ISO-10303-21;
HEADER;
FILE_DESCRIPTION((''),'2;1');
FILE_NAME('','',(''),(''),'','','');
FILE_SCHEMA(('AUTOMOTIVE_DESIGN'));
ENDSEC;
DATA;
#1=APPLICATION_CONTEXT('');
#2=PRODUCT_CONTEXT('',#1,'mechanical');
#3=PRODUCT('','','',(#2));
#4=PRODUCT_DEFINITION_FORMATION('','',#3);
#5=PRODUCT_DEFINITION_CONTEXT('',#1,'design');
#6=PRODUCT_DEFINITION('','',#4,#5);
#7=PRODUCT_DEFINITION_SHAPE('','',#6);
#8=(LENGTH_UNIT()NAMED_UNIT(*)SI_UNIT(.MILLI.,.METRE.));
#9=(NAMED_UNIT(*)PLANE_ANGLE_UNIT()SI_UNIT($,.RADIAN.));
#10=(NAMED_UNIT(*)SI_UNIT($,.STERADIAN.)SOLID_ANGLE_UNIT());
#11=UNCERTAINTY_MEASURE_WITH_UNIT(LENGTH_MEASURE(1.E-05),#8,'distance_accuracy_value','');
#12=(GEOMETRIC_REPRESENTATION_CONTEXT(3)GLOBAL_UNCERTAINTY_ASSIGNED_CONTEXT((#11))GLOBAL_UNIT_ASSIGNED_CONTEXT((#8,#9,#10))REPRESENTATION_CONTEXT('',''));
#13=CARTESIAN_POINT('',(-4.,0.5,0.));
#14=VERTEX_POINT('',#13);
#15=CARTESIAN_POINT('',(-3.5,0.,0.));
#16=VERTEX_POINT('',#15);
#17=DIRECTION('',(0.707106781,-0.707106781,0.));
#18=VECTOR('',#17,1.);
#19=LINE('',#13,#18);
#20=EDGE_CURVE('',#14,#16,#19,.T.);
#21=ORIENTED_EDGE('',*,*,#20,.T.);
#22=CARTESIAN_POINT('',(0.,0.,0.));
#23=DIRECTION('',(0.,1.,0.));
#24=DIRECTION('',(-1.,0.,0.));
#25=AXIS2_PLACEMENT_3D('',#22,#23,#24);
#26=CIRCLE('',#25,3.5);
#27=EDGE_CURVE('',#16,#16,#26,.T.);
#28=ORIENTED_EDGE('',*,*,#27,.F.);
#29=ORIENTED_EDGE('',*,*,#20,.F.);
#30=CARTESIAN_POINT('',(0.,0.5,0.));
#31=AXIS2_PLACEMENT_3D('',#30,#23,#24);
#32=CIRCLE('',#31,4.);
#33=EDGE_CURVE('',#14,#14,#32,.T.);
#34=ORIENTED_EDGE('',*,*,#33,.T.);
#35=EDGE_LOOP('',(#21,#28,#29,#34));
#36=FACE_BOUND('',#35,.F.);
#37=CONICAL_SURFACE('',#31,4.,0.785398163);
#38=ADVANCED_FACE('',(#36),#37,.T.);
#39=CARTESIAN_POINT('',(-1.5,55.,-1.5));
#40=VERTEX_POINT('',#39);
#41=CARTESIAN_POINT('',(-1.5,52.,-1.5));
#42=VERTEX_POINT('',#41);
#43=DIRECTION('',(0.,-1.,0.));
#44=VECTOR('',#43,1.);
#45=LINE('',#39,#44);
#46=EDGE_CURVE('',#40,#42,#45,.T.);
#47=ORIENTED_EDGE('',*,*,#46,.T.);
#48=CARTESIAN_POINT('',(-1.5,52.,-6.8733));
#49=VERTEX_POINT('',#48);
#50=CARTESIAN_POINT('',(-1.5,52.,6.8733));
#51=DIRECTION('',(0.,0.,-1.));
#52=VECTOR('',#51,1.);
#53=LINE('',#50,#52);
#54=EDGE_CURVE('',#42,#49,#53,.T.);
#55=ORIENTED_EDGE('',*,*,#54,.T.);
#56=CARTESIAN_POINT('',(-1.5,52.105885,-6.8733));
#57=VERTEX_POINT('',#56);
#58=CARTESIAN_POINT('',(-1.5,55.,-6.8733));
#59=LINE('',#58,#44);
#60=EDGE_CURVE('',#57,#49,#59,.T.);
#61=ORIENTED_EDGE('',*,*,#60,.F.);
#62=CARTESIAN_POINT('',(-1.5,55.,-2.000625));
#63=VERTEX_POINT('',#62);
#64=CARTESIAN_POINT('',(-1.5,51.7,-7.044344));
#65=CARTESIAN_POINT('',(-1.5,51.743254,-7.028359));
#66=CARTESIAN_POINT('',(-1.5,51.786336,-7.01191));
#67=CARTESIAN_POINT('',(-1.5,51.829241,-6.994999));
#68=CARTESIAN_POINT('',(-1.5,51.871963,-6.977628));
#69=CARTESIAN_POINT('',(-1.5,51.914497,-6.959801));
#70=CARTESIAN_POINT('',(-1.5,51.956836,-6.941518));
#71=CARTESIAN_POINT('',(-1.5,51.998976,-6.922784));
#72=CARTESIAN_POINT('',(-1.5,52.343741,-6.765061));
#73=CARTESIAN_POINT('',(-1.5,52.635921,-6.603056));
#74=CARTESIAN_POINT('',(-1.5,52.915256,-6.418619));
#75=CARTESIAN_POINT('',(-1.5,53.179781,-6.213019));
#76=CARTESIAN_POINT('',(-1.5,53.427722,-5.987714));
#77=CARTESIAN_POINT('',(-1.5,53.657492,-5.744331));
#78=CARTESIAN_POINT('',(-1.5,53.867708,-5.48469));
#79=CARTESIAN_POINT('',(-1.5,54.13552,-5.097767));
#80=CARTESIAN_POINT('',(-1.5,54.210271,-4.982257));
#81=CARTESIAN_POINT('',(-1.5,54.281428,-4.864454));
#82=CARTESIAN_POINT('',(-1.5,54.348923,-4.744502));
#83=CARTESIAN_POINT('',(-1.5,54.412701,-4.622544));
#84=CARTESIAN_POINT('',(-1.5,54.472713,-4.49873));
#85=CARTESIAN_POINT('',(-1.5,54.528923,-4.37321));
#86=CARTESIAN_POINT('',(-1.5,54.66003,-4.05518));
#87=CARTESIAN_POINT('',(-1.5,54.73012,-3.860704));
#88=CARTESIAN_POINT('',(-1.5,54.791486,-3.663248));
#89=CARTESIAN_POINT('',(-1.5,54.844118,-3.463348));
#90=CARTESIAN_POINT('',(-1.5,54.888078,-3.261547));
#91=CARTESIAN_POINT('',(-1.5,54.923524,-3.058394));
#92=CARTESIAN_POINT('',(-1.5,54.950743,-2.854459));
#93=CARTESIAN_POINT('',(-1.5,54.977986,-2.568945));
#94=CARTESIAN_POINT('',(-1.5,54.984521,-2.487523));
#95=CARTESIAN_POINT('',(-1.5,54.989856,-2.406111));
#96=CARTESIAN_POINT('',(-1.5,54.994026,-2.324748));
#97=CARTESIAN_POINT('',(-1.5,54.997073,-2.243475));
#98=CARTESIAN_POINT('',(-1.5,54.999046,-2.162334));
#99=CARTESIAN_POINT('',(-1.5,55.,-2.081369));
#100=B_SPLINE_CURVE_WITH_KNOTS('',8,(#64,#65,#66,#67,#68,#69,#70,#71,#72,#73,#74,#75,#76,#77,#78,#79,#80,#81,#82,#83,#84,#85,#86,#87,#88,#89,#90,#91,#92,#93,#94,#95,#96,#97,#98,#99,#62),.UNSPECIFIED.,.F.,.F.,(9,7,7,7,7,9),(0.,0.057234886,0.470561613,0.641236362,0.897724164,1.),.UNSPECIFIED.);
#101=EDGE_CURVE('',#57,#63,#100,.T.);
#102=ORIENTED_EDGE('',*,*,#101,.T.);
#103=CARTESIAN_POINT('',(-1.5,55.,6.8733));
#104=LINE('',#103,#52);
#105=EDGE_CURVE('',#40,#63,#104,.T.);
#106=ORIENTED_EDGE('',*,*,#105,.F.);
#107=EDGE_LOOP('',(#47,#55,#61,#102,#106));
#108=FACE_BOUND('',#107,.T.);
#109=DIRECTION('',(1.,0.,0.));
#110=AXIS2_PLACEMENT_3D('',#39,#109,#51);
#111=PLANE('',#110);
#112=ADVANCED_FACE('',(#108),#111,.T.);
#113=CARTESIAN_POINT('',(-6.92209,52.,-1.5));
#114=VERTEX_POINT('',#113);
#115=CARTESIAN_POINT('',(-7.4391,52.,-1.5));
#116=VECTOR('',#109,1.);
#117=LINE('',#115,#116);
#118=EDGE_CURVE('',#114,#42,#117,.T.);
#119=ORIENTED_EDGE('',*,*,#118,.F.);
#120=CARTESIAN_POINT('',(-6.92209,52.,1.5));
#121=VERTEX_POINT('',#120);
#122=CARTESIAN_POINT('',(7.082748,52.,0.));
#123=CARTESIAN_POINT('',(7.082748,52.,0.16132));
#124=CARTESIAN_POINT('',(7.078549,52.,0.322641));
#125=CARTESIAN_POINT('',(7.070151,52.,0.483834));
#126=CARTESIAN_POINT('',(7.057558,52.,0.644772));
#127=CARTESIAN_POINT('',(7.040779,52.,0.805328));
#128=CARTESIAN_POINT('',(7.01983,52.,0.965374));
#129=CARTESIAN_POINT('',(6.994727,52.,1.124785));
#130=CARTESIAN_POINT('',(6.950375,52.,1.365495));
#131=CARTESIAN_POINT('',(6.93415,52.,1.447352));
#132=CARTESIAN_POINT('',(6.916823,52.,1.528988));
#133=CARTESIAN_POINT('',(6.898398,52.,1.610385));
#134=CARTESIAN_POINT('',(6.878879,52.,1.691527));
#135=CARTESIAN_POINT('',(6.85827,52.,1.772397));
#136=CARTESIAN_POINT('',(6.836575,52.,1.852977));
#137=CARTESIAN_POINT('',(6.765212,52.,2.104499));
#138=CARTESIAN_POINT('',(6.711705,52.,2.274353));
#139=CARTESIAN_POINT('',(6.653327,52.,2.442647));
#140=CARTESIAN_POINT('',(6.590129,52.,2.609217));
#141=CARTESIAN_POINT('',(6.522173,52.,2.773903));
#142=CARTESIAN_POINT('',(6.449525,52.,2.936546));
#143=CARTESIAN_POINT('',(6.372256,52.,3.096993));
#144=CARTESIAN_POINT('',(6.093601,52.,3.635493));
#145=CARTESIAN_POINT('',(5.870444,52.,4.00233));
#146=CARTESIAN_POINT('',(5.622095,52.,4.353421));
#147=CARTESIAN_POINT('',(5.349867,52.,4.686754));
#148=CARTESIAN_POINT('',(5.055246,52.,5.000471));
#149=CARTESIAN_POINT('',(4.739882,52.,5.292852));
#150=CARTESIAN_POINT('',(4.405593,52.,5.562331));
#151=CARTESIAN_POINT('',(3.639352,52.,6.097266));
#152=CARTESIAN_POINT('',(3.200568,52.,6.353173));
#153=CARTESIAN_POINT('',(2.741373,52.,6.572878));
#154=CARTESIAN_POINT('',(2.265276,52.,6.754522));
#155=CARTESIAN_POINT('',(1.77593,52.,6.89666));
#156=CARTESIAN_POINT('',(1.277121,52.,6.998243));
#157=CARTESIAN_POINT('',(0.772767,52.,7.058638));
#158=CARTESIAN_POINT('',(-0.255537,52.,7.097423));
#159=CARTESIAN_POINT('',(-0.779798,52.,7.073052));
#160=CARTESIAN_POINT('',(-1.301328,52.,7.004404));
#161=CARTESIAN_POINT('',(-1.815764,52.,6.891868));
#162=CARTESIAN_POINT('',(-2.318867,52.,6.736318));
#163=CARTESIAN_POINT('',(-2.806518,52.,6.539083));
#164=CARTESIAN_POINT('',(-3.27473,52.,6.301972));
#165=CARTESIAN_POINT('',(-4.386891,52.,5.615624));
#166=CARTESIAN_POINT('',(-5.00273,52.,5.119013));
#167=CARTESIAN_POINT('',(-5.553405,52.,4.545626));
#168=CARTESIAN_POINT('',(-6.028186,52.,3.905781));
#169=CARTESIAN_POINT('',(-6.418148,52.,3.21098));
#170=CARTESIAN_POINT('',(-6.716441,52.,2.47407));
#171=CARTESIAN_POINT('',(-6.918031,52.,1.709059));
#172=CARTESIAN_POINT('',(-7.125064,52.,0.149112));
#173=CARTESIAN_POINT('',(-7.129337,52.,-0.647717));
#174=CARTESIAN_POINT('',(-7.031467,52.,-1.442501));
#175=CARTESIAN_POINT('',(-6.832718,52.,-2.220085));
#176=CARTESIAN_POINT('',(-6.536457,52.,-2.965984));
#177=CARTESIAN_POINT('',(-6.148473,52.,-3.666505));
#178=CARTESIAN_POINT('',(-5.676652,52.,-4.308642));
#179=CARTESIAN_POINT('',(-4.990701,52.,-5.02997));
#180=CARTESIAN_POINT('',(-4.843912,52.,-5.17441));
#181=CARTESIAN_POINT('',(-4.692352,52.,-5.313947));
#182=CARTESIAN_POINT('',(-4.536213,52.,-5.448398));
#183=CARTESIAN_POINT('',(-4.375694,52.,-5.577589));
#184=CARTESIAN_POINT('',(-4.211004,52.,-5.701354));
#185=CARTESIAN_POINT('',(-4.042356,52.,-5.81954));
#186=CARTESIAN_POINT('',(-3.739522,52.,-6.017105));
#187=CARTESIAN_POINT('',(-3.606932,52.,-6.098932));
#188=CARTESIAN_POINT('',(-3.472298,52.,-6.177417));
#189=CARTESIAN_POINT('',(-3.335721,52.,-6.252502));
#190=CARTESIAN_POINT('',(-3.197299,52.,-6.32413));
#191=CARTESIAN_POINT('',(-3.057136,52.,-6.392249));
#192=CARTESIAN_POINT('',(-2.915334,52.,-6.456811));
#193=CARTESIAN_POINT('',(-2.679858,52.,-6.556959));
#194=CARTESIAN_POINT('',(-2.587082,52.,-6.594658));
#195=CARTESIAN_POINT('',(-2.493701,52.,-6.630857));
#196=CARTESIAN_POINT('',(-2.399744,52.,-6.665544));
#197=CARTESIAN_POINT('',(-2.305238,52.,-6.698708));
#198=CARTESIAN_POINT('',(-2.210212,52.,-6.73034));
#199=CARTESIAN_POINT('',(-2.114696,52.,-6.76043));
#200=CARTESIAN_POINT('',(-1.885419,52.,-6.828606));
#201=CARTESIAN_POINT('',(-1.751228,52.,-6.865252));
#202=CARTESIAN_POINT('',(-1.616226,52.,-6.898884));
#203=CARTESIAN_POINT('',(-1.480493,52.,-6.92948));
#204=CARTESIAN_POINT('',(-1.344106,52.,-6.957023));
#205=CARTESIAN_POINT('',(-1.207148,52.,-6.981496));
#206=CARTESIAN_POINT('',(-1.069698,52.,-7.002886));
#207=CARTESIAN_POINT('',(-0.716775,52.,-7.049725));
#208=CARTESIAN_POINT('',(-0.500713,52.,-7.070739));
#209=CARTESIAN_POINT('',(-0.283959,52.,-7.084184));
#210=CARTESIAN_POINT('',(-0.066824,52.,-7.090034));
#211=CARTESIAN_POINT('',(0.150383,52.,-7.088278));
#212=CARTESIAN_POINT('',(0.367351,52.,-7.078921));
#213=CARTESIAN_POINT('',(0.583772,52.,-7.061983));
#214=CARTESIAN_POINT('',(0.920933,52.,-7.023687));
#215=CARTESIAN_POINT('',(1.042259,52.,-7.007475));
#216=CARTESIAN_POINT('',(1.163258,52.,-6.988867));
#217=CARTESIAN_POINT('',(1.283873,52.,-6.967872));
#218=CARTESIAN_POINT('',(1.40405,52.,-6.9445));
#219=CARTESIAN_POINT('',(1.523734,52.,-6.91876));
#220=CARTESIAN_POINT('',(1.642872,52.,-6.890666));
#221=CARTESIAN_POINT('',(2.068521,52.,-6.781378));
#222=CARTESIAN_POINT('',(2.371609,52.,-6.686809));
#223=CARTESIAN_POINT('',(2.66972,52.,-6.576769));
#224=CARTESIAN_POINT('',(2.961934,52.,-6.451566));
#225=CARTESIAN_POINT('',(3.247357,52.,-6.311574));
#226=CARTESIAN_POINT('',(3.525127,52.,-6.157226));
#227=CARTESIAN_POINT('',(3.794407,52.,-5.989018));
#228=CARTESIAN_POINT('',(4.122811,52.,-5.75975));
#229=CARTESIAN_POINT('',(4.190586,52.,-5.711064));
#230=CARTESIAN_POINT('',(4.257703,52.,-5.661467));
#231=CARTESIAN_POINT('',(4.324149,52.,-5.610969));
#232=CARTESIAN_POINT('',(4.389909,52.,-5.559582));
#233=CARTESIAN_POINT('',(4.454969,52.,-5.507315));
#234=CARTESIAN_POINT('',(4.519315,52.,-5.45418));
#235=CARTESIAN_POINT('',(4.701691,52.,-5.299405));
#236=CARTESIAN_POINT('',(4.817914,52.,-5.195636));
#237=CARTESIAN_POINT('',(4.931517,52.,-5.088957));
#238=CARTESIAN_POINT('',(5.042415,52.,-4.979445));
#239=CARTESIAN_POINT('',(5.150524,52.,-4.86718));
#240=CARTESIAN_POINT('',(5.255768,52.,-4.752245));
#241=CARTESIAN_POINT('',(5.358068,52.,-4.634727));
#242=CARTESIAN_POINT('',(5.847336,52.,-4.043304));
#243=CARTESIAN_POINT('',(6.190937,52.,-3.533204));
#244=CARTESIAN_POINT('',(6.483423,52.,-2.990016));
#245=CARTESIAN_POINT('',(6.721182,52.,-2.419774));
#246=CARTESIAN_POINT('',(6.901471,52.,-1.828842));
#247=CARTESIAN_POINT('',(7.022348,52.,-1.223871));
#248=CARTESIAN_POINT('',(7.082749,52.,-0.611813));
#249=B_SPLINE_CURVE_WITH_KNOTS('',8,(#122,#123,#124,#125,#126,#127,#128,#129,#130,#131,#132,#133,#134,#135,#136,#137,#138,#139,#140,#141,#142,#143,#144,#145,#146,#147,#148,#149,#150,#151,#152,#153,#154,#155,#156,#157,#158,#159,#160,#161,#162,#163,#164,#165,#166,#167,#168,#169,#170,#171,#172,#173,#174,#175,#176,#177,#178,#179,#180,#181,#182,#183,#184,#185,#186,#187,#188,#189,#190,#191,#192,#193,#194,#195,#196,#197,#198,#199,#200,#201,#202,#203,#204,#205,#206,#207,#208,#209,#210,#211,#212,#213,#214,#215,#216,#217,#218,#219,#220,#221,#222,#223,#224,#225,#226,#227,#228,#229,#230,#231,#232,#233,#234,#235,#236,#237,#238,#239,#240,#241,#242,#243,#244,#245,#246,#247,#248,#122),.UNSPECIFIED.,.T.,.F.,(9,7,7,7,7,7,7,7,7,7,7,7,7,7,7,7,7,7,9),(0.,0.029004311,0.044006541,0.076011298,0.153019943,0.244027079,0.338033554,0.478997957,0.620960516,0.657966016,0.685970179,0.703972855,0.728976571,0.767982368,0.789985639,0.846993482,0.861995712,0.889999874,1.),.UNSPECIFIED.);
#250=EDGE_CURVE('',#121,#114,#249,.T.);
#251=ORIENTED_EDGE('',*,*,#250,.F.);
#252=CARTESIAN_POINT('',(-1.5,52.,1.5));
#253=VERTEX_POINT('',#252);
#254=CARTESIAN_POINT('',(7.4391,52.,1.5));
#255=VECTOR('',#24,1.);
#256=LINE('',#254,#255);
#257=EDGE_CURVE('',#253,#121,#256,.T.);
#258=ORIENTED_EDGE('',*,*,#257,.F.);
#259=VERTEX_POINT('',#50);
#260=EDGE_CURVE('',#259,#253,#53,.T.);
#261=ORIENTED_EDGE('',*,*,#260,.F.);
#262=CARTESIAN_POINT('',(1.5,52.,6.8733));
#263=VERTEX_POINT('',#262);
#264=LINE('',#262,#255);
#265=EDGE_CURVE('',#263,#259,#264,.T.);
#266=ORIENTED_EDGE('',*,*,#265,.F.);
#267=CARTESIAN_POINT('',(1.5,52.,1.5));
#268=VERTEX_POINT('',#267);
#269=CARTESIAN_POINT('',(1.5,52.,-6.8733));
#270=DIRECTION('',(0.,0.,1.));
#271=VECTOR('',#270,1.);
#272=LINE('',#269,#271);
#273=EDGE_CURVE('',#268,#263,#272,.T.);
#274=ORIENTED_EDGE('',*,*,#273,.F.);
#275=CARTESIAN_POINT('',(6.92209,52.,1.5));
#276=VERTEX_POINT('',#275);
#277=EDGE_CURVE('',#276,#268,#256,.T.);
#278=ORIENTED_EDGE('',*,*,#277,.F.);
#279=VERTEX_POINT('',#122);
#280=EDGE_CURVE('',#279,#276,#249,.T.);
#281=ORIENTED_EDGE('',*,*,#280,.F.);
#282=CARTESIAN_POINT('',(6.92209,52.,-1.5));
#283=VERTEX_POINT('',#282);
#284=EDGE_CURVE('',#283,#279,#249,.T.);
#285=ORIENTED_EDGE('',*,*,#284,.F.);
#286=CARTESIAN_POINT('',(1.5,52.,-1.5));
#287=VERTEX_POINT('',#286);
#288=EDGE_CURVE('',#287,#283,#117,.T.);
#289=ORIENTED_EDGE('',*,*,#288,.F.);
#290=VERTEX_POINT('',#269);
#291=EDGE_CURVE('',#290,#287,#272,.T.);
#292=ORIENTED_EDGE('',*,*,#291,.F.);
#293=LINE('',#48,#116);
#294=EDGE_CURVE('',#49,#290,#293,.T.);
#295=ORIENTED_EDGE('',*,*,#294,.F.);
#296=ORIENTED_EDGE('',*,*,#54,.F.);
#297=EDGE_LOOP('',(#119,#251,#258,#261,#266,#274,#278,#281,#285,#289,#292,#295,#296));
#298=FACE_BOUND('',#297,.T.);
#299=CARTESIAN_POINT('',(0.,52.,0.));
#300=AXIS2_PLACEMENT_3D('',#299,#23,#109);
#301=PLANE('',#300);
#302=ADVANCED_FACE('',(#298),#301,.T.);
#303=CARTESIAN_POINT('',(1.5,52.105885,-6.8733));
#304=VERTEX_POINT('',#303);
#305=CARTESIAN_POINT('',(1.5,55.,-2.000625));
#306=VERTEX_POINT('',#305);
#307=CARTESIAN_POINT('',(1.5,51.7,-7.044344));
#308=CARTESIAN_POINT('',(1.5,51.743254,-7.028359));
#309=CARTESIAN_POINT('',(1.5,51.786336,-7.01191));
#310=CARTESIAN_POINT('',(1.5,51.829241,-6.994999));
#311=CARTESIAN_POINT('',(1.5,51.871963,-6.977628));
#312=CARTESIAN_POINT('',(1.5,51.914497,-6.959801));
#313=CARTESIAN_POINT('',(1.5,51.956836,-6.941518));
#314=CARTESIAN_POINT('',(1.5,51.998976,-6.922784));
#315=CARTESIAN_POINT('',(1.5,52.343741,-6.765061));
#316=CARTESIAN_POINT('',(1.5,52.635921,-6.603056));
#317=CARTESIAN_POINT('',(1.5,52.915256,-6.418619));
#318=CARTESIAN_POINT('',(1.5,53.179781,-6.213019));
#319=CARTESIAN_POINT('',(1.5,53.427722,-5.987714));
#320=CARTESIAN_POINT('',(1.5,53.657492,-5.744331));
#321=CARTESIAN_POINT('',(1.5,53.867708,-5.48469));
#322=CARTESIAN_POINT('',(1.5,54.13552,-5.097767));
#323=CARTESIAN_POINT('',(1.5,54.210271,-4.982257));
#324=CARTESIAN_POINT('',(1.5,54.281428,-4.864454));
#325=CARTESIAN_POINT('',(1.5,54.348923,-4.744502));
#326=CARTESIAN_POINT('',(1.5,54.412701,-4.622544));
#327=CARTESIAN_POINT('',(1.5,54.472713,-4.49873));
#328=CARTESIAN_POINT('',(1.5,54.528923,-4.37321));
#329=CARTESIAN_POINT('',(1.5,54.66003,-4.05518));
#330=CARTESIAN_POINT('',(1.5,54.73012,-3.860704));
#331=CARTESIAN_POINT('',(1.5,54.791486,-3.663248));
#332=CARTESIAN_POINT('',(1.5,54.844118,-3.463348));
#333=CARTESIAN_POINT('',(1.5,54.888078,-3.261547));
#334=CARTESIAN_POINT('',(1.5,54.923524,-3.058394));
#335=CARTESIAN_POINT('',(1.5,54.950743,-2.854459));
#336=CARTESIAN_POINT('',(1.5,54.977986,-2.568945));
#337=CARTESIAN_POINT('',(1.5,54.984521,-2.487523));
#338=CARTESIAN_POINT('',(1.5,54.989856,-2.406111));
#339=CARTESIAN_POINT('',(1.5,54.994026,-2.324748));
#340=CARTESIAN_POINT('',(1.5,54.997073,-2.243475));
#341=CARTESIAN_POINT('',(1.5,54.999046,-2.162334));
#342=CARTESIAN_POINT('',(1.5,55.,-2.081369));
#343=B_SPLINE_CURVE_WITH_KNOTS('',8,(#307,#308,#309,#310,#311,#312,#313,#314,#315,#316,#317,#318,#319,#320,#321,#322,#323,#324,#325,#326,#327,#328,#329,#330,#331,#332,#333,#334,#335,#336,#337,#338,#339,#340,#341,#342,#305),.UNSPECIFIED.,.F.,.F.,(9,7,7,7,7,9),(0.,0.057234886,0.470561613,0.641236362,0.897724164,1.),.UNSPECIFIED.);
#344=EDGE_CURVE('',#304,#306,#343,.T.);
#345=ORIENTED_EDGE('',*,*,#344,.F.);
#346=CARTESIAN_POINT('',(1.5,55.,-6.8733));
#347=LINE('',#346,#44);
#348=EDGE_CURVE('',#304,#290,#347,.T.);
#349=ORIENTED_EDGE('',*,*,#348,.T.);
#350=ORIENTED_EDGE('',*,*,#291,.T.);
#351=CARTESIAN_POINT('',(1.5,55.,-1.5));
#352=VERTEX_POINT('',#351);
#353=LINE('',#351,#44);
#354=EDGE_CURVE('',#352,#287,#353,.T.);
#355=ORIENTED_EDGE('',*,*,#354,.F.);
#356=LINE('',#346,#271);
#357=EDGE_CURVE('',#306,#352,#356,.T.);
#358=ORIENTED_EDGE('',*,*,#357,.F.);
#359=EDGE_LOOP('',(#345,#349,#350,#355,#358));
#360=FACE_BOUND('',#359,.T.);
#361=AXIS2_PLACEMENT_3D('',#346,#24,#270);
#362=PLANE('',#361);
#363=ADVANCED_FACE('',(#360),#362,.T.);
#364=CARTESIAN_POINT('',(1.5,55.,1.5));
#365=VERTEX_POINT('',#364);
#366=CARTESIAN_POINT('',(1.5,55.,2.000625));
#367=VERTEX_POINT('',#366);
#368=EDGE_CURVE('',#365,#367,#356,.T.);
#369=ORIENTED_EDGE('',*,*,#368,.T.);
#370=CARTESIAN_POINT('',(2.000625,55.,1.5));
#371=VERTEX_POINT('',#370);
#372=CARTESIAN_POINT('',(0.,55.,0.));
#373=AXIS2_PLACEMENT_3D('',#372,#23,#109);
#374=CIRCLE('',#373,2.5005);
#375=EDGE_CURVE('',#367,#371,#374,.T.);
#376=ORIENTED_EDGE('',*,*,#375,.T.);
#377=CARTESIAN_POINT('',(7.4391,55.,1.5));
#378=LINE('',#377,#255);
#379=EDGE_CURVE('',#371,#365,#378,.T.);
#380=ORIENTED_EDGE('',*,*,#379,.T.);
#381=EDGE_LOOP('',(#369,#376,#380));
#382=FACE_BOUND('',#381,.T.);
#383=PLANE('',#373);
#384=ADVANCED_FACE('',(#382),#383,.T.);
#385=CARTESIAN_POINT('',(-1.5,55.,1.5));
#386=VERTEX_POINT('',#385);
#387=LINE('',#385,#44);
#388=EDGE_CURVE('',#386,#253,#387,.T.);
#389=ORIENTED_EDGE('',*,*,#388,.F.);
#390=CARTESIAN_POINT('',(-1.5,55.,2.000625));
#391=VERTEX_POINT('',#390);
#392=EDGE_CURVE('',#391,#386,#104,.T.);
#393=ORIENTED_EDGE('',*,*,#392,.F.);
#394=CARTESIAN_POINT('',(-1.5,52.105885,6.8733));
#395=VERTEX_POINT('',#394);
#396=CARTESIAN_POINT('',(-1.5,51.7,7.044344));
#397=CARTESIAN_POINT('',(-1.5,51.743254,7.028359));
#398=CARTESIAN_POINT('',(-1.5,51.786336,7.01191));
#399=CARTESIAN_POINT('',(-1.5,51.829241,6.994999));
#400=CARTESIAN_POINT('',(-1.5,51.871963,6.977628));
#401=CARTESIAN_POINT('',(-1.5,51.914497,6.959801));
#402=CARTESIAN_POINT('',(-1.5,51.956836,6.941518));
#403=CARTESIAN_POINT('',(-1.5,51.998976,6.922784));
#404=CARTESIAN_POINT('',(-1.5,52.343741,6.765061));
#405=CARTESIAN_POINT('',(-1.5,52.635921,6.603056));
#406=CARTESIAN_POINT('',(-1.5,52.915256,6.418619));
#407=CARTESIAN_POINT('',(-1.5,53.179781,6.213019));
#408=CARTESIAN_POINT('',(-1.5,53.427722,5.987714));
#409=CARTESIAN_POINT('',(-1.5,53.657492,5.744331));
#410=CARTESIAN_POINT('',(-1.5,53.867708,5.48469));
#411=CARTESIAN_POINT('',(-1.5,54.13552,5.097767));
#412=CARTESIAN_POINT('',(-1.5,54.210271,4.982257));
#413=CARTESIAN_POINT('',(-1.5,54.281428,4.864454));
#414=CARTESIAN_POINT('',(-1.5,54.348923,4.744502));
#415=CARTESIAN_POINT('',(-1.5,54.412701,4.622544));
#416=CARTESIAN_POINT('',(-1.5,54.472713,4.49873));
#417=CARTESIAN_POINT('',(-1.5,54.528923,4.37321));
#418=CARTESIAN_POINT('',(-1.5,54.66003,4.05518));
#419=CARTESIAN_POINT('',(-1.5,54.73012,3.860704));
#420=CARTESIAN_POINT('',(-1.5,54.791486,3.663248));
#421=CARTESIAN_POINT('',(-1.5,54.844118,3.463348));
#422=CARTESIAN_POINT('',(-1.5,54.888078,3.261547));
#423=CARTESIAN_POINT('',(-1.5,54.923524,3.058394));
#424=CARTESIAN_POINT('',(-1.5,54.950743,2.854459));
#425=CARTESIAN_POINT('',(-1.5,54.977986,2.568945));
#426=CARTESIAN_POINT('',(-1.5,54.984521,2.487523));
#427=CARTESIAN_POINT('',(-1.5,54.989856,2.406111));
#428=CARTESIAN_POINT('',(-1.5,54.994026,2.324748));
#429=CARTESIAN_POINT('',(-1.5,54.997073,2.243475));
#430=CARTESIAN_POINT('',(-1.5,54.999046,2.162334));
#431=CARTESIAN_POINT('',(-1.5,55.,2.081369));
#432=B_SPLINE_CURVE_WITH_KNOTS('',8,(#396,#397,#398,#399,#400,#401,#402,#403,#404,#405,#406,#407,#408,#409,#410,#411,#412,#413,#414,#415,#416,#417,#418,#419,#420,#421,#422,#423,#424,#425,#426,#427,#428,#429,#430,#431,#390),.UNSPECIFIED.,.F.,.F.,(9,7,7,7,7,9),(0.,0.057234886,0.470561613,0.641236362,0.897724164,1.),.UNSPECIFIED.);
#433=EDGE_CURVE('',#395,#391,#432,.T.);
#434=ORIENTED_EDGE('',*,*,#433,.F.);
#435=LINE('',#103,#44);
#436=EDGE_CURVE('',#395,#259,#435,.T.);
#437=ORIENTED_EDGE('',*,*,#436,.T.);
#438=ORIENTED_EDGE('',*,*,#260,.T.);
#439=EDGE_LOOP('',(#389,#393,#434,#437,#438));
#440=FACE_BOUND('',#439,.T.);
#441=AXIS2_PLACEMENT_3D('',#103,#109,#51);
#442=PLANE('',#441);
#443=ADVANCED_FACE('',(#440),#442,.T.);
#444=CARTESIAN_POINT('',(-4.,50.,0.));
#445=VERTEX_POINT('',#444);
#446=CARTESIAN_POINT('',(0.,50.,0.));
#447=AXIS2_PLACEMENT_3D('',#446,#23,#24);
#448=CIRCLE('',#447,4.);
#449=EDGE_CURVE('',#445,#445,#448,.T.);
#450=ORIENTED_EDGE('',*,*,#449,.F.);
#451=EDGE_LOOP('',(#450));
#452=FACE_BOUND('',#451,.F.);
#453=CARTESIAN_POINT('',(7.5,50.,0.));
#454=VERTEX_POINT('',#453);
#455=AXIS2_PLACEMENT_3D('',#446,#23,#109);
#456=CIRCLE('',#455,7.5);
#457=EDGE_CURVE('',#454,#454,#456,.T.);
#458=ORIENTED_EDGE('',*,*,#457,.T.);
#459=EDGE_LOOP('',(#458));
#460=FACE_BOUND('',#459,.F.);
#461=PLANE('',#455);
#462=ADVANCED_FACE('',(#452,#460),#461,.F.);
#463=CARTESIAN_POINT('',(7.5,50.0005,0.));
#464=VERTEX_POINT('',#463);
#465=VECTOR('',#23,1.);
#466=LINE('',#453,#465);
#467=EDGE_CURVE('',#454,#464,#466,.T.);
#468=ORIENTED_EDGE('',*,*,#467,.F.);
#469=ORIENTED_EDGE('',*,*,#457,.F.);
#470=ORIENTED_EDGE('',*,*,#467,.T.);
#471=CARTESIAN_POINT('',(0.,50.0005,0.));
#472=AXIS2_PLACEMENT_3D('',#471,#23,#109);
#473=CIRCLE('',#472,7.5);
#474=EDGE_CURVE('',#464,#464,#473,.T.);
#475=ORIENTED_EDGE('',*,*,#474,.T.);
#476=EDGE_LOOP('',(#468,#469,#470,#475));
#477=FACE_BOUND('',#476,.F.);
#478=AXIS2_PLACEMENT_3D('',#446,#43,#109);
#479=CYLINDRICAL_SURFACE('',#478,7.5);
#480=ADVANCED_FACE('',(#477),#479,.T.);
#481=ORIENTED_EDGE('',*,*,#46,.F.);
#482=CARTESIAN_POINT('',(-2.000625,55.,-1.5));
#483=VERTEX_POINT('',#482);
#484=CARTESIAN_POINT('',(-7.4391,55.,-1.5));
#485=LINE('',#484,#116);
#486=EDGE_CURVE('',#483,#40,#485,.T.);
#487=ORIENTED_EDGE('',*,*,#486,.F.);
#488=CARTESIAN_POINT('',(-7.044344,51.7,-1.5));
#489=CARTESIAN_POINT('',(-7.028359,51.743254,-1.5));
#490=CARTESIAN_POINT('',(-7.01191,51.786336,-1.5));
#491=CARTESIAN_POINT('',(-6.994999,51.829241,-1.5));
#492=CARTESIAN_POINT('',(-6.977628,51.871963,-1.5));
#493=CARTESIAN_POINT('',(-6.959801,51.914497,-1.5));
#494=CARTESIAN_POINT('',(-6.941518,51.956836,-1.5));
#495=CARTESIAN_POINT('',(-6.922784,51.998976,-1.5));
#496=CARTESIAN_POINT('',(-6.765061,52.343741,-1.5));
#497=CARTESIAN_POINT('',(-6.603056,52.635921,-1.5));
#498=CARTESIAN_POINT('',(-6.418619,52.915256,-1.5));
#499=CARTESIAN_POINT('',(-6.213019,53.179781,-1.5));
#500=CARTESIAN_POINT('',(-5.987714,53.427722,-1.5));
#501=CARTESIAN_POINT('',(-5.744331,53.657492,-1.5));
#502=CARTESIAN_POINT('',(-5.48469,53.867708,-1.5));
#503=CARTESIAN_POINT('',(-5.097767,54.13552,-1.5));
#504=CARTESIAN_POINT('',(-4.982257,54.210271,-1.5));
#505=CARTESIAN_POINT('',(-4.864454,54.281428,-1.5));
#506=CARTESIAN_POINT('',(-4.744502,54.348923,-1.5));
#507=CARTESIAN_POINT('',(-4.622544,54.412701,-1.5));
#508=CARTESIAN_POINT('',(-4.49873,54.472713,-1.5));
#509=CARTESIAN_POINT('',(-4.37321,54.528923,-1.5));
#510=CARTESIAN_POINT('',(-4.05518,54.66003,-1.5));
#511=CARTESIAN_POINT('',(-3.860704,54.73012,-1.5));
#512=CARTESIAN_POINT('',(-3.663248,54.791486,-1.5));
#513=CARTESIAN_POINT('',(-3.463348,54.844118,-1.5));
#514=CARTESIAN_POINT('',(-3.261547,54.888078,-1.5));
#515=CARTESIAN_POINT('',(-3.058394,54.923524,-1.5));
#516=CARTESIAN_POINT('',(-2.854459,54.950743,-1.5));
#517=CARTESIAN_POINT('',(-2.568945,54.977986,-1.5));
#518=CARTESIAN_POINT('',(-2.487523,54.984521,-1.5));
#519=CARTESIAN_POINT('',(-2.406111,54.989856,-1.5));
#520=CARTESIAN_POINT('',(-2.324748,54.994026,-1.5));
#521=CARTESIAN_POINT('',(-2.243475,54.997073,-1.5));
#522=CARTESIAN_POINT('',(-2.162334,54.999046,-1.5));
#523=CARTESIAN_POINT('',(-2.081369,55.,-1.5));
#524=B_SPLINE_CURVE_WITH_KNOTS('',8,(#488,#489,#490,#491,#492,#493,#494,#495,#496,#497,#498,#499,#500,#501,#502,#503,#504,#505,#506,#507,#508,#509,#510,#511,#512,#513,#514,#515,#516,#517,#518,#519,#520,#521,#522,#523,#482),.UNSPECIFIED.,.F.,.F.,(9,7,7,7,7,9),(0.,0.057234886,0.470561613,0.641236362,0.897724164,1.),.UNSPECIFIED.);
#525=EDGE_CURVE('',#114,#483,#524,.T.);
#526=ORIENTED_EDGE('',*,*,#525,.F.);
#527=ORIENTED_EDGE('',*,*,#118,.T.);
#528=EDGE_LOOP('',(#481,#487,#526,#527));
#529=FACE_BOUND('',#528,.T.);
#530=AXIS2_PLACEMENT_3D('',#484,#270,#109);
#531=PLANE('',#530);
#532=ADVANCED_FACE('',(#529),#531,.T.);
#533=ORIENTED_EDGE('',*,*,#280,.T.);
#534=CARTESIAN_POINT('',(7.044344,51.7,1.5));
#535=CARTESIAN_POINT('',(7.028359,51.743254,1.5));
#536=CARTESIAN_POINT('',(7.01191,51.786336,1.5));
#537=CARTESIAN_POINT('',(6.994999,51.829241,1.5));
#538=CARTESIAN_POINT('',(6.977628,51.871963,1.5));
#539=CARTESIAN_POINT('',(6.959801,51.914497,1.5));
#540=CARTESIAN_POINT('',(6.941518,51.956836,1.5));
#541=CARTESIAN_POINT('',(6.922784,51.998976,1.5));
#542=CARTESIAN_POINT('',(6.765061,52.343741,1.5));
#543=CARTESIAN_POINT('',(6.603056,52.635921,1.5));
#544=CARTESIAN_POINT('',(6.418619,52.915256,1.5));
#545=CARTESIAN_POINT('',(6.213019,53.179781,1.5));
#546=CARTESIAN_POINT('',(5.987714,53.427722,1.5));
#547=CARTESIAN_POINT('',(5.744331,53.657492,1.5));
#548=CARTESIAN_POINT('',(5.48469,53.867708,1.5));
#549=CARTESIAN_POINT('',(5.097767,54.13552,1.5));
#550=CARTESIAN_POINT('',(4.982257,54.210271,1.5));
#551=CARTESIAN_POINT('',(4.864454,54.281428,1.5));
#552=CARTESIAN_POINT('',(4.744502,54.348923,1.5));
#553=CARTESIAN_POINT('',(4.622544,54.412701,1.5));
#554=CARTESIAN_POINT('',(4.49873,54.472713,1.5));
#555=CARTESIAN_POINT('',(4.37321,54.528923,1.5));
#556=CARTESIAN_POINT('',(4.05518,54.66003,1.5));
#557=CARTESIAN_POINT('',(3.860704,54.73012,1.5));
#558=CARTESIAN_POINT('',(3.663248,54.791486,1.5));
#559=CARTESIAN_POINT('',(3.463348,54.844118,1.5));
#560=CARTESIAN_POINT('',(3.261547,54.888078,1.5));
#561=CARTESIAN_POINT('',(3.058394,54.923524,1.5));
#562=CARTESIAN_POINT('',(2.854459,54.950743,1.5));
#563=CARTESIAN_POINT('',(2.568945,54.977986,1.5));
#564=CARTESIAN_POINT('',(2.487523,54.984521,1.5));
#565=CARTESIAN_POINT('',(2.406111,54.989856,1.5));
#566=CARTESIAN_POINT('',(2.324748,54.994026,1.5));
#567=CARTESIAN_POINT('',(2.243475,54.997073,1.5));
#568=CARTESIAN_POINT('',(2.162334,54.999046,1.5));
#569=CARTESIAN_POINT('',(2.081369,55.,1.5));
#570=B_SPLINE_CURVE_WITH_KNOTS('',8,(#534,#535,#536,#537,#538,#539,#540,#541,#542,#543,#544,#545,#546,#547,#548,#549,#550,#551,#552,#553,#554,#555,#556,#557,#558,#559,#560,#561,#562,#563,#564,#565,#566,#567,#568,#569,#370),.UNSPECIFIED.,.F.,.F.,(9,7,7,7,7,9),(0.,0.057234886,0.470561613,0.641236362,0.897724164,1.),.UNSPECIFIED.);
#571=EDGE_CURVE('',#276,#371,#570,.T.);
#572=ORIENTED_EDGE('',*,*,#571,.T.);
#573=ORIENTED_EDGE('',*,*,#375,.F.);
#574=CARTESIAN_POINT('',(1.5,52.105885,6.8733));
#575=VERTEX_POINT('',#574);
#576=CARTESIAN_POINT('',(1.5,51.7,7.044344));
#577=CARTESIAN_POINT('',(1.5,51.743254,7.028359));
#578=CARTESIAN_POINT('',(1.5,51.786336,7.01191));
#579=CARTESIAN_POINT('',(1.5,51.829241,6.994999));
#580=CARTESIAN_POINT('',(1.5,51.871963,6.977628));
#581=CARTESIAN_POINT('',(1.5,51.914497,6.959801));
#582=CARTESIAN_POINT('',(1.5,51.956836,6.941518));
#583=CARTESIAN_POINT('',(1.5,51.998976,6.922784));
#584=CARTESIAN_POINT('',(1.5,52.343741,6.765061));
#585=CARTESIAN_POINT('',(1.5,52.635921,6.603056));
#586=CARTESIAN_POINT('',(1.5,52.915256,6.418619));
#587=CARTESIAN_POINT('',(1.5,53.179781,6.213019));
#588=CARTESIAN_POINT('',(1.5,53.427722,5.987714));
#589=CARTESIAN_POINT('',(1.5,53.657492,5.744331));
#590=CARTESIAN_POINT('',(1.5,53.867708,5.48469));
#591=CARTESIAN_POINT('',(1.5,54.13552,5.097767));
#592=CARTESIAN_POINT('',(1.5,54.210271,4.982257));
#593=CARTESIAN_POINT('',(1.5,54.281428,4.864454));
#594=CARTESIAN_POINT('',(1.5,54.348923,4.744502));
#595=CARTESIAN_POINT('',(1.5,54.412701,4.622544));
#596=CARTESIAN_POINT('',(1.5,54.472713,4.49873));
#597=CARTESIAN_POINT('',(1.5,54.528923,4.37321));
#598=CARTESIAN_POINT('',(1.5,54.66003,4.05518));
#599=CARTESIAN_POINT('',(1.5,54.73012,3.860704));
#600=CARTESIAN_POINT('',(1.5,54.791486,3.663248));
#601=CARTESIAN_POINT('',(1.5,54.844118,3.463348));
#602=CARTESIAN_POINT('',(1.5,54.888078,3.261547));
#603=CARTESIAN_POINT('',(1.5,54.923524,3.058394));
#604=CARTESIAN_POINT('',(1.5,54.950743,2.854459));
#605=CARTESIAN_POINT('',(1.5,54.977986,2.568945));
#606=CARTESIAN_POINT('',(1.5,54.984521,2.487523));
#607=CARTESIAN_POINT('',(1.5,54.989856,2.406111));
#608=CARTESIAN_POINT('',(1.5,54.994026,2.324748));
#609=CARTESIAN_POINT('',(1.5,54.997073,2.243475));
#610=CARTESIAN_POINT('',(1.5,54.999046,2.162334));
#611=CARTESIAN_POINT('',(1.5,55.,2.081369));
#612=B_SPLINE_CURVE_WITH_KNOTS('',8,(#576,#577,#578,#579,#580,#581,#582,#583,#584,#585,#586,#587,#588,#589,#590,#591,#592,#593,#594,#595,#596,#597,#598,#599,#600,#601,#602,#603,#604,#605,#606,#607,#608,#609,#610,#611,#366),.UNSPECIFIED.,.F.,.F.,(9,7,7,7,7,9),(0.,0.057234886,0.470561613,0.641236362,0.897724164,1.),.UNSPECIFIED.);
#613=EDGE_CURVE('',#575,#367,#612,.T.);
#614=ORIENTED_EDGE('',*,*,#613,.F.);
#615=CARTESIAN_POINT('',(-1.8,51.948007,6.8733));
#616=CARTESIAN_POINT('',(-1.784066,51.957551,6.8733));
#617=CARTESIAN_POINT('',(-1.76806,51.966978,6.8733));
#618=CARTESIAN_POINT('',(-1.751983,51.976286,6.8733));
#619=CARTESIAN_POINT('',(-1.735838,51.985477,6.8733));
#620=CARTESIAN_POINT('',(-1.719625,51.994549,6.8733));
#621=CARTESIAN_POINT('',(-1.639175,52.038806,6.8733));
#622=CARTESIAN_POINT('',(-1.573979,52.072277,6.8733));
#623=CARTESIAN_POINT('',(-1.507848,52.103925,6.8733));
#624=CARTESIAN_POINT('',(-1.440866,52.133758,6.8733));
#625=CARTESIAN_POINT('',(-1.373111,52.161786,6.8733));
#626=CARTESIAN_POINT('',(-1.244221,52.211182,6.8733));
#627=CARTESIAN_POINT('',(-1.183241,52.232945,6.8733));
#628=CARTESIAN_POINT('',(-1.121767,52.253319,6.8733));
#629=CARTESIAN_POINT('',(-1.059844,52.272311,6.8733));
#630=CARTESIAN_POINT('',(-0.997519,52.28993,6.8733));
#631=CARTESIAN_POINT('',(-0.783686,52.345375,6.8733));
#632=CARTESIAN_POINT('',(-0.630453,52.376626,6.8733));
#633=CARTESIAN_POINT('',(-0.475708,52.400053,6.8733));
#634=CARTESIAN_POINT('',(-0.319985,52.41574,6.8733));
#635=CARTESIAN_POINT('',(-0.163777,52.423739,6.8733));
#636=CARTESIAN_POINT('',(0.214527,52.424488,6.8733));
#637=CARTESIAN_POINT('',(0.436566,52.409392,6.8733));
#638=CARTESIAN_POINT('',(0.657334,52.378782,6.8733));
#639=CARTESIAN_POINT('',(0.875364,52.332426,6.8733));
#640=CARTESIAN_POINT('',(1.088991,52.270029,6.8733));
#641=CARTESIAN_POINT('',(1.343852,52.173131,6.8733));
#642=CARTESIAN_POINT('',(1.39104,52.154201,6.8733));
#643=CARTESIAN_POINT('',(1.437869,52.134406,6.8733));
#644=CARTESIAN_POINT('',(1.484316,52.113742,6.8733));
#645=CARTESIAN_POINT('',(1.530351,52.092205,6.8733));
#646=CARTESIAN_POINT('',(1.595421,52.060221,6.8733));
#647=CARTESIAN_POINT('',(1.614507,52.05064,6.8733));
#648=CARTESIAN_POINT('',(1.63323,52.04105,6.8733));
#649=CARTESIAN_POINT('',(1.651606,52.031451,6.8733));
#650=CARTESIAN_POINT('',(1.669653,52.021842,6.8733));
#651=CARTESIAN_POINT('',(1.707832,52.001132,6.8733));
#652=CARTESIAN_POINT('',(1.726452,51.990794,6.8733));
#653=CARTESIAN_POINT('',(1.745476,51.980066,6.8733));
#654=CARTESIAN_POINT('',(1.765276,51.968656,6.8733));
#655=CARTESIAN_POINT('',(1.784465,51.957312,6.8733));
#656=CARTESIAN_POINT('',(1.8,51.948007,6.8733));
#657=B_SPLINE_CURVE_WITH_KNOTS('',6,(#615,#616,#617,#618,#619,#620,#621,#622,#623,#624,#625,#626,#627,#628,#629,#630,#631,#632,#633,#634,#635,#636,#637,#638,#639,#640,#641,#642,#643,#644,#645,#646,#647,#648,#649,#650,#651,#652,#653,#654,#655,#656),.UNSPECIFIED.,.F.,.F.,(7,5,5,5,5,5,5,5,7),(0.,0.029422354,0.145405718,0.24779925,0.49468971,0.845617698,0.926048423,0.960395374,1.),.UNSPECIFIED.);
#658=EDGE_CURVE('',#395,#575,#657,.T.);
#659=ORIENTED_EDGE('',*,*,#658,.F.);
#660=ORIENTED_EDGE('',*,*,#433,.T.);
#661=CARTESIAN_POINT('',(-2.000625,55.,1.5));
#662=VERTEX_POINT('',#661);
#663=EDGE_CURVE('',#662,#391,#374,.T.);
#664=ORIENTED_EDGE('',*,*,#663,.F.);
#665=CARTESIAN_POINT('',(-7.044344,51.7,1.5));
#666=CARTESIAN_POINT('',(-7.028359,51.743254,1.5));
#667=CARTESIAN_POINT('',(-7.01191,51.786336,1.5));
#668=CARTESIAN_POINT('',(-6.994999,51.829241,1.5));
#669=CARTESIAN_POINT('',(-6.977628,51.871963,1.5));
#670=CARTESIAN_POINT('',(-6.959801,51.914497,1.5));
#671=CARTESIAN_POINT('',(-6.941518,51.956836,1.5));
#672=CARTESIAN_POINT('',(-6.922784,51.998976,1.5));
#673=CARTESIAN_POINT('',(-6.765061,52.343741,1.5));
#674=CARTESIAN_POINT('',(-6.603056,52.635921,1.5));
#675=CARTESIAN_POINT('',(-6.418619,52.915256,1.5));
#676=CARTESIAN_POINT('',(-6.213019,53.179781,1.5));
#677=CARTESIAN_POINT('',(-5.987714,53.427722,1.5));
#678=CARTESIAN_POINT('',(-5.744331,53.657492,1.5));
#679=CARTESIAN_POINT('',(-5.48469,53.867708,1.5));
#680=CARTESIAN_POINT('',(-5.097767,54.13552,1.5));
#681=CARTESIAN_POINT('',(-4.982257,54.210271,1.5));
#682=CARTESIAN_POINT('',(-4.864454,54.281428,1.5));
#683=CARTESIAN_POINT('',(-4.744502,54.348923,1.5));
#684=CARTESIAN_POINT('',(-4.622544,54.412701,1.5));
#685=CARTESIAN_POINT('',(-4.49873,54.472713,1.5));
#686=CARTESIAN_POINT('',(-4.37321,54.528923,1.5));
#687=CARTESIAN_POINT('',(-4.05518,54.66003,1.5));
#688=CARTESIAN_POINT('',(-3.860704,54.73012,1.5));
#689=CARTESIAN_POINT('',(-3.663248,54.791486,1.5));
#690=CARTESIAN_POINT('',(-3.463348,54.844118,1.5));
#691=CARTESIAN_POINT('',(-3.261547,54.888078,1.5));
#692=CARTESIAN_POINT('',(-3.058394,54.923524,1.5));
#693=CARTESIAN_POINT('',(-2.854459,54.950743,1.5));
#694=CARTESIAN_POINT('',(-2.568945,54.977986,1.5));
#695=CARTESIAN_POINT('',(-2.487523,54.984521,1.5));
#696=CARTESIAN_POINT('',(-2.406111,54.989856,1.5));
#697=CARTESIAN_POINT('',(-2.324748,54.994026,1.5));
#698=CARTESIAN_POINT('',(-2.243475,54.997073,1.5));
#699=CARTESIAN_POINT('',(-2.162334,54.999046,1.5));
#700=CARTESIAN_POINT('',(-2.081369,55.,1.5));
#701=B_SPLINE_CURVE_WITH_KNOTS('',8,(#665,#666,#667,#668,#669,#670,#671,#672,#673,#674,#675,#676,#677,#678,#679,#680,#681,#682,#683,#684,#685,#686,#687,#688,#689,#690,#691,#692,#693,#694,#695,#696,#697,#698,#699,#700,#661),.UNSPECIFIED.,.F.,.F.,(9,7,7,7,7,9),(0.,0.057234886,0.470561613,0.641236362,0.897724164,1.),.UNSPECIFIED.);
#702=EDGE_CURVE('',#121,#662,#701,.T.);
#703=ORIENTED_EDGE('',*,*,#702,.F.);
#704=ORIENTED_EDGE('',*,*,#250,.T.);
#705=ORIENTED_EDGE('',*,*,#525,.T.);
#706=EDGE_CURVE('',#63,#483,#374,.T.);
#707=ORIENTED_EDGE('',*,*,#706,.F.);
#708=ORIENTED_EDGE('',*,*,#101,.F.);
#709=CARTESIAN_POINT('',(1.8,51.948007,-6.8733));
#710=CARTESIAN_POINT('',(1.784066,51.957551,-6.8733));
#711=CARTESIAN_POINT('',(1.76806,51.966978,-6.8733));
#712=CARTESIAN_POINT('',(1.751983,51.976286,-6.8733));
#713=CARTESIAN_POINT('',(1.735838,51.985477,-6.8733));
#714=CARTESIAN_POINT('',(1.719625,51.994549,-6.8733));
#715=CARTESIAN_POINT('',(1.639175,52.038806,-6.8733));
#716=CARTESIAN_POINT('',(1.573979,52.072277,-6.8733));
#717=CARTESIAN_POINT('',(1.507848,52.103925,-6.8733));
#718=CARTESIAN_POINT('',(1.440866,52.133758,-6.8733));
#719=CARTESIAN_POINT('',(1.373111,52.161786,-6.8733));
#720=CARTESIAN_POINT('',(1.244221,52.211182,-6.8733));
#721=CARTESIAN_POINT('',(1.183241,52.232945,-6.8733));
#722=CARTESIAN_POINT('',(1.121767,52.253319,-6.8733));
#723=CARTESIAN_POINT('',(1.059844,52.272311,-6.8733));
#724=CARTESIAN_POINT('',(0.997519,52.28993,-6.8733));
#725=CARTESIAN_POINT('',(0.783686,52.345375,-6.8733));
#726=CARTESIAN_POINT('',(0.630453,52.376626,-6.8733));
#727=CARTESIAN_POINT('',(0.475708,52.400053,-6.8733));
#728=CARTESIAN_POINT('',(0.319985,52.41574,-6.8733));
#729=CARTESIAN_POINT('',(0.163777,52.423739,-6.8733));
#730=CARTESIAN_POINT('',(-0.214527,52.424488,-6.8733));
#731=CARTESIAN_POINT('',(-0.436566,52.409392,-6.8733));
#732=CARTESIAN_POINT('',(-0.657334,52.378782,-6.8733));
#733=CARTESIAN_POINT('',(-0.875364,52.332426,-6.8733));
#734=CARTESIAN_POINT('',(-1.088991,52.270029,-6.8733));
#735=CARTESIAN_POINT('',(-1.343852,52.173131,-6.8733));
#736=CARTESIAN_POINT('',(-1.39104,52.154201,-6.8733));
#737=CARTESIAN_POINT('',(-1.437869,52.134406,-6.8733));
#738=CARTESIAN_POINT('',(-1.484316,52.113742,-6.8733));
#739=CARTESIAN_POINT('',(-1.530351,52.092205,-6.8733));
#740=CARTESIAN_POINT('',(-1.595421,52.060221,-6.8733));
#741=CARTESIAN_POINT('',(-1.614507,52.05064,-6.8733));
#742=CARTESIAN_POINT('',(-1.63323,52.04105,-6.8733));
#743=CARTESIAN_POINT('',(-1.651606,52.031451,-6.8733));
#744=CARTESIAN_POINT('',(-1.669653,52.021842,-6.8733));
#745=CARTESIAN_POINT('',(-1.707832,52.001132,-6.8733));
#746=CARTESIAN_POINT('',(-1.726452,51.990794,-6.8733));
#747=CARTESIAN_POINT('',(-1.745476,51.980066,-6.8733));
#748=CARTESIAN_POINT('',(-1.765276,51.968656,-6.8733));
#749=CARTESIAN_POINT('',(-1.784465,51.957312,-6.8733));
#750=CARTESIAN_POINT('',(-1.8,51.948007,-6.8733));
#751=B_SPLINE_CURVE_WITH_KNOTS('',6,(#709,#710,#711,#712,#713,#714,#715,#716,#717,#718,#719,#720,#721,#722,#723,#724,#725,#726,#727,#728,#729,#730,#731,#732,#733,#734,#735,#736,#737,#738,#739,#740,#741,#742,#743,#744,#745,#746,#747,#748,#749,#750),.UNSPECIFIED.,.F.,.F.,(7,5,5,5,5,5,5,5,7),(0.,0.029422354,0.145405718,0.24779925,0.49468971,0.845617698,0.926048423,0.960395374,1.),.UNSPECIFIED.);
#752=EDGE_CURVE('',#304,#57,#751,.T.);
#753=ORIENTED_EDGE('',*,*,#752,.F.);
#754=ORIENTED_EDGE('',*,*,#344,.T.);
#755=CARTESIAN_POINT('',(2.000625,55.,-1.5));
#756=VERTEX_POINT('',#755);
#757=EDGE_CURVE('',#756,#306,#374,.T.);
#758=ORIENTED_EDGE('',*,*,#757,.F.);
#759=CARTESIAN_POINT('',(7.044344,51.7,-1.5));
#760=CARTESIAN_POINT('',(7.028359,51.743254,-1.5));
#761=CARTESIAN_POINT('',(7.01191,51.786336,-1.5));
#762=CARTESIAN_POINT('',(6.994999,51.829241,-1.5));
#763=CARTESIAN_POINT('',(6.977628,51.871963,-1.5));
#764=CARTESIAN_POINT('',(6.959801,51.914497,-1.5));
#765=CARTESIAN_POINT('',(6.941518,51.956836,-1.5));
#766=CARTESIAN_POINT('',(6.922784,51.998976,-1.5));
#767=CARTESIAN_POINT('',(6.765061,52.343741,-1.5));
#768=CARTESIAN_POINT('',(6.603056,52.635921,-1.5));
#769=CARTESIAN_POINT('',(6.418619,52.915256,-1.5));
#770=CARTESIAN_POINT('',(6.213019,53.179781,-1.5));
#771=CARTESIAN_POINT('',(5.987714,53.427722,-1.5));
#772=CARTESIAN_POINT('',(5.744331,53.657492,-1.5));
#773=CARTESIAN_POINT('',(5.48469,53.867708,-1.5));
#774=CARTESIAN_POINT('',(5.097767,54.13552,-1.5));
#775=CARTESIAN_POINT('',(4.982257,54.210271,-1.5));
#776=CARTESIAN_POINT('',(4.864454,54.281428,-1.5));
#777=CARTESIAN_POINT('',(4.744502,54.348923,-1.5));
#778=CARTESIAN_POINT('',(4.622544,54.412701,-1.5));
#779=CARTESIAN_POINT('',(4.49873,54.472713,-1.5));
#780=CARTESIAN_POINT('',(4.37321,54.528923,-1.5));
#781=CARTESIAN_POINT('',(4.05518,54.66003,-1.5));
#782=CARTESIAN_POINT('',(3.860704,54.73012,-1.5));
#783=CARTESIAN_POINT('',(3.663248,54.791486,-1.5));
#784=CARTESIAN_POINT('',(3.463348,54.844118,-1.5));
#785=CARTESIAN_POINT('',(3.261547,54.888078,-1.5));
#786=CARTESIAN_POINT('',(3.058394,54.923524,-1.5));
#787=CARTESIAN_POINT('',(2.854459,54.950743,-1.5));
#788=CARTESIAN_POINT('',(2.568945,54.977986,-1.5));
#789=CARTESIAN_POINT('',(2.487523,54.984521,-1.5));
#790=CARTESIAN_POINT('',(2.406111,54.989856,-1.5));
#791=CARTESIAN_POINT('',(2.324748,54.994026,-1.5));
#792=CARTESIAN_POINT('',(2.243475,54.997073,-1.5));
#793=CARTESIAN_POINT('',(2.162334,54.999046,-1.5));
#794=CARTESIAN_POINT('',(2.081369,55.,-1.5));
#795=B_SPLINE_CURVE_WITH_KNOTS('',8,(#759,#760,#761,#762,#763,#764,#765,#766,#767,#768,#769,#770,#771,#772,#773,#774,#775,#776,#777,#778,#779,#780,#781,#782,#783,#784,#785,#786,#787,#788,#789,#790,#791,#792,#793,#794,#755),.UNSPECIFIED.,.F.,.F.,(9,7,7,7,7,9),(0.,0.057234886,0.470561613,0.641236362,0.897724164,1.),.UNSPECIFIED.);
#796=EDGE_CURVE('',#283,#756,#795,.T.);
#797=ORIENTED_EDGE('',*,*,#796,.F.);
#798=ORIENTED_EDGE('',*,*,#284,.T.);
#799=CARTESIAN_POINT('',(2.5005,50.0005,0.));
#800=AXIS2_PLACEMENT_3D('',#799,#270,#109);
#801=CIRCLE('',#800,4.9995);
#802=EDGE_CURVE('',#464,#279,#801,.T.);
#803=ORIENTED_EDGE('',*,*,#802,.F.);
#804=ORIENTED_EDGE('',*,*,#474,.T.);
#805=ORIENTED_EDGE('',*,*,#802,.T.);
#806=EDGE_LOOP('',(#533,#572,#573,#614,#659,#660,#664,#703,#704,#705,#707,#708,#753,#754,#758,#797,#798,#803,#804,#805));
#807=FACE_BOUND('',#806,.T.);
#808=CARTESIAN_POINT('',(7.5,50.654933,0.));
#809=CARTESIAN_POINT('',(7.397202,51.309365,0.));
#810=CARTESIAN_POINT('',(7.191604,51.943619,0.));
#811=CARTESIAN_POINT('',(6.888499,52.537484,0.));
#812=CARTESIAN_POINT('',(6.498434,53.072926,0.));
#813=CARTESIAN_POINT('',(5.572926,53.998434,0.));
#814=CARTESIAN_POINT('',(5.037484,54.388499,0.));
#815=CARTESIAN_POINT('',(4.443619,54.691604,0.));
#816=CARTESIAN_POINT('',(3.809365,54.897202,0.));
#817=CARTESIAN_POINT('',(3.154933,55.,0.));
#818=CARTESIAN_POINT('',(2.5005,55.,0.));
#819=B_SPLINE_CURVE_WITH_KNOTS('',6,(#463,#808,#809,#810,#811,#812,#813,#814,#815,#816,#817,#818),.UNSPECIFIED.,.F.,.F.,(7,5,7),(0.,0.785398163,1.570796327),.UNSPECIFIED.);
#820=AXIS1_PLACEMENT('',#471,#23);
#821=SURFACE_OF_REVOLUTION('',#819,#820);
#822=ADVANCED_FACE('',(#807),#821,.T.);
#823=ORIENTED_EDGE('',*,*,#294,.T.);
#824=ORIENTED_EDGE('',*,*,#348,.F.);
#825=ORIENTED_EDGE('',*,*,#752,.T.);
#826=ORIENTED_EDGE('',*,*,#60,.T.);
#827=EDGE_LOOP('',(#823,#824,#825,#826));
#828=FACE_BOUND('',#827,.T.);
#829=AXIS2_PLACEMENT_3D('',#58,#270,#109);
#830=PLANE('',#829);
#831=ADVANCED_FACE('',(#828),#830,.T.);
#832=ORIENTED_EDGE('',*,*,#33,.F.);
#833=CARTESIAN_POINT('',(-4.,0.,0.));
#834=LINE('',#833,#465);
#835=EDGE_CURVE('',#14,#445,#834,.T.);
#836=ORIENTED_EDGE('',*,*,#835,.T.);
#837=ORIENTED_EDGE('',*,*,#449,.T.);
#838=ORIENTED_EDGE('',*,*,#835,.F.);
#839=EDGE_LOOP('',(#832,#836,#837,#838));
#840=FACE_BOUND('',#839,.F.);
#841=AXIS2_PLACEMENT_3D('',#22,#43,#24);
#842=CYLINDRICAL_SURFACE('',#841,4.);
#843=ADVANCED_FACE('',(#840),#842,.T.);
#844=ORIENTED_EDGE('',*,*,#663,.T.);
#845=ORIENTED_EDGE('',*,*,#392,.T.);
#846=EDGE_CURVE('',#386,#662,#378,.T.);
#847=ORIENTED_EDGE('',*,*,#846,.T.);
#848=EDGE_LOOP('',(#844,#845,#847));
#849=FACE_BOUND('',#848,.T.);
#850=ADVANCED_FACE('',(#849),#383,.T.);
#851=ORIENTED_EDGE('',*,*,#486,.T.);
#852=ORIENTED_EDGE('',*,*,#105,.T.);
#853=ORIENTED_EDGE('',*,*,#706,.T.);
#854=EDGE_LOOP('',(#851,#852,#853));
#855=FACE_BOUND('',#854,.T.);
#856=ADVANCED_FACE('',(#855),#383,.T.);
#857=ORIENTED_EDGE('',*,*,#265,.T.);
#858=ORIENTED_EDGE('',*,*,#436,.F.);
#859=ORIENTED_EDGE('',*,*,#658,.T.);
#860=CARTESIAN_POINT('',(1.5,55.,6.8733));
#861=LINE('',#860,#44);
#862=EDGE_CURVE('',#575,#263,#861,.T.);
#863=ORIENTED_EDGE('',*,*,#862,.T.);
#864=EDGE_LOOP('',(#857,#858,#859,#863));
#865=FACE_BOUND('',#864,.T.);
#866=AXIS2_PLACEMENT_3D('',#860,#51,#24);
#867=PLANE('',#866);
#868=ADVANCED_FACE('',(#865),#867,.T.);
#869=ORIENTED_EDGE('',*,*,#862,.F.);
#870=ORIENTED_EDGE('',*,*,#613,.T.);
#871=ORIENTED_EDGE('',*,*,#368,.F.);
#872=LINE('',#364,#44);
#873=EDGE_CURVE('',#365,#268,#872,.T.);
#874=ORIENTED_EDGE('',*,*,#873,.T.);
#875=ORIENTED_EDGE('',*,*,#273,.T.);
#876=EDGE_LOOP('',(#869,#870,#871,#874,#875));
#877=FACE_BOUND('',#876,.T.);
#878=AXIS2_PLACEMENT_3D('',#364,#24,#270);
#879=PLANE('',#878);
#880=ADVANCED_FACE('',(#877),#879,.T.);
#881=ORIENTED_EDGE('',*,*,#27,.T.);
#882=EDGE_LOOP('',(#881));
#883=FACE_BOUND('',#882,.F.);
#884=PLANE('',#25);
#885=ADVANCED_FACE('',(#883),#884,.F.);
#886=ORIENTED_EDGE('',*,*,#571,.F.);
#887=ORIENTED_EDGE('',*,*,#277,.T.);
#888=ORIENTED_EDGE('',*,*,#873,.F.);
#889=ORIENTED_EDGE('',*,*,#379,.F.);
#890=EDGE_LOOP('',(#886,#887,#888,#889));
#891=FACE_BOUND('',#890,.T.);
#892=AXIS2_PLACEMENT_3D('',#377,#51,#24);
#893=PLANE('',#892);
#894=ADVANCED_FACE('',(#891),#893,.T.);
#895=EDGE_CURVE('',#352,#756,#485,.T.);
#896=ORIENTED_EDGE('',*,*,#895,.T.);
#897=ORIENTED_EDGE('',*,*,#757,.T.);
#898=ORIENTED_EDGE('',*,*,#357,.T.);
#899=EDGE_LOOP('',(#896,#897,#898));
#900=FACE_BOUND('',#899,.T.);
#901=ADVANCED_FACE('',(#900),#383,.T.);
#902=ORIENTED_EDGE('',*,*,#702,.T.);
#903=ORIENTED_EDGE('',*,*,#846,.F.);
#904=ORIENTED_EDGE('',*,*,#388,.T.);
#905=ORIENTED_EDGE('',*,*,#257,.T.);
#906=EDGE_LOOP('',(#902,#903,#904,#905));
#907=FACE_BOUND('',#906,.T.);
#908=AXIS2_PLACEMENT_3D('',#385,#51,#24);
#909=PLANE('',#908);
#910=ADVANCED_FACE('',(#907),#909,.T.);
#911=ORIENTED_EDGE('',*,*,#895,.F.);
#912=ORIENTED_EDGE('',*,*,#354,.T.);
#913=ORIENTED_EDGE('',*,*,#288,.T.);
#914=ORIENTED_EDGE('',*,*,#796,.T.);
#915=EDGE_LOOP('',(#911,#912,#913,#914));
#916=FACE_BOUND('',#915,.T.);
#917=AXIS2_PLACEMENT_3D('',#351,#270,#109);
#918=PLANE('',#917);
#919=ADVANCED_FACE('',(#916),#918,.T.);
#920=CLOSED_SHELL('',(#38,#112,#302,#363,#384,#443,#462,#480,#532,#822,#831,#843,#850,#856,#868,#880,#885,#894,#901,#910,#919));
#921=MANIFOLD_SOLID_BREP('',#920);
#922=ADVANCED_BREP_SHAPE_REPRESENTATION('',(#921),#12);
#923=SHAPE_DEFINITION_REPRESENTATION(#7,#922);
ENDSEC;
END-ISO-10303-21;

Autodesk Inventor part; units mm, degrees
ref_plane "YZ Plane" through (0, 0, 0) normal (1, 0, 0) x (0, 1, 0)
ref_plane "XZ Plane" through (0, 0, 0) normal (0, 1, 0) x (-1, 0, 0)
ref_plane "XY Plane" through (0, 0, 0) normal (0, 0, 1) x (1, 0, 0)
sketch "Sketch1" plane through (0, 0, 0) normal (0, 1, 0) x (-1, 0, 0)
  circle A0 centre (0, 0) radius 4
  dimension "d0" = 8
extrude "Extrusion1" add sketch "Sketch1" along normal blind 50
sketch "Sketch2" plane through (0, 50, 0) normal (0, 1, 0) x (1, 0, 0)
  circle A0 centre (0, 0) radius 7.5
  dimension "d3" = 15
extrude "Extrusion2" add sketch "Sketch2" along normal blind 5
fillet "Fillet1" radius 5 1 edges at (-7.5, 55, 0)
sketch "Sketch3" plane through (0, 55, 0) normal (0, 1, 0) x (1, 0, 0)
  line L0 (7.4391, -1.5) -> (-7.4391, -1.5)
  line L1 (-7.4391, -1.5) -> (-7.4391, 1.5)
  line L2 (-7.4391, 1.5) -> (7.4391, 1.5)
  line L3 (7.4391, 1.5) -> (7.4391, -1.5)
  line L4 (7.4391, -1.5) -> (-7.4391, 1.5) construction
  line L5 (-7.4391, -1.5) -> (7.4391, 1.5) construction
  line L6 (1.5, -6.8733) -> (-1.5, -6.8733)
  line L7 (-1.5, -6.8733) -> (-1.5, 6.8733)
  line L8 (-1.5, 6.8733) -> (1.5, 6.8733)
  line L9 (1.5, 6.8733) -> (1.5, -6.8733)
  line L10 (1.5, -6.8733) -> (-1.5, 6.8733) construction
  line L11 (-1.5, -6.8733) -> (1.5, 6.8733) construction
  point P0 (0, 0)
  dimension "d7" = 3
  dimension "d8" = 3
extrude "Extrusion3" cut sketch "Sketch3" against normal blind 3
thread "Thread1" size "M8x1.25" class "6g" standard "ANSI Metric M Profile" full length
chamfer "Chamfer1" distance 0.5 angle 45 1 edges at (4, 0, 0)
properties part number "Vijs"
